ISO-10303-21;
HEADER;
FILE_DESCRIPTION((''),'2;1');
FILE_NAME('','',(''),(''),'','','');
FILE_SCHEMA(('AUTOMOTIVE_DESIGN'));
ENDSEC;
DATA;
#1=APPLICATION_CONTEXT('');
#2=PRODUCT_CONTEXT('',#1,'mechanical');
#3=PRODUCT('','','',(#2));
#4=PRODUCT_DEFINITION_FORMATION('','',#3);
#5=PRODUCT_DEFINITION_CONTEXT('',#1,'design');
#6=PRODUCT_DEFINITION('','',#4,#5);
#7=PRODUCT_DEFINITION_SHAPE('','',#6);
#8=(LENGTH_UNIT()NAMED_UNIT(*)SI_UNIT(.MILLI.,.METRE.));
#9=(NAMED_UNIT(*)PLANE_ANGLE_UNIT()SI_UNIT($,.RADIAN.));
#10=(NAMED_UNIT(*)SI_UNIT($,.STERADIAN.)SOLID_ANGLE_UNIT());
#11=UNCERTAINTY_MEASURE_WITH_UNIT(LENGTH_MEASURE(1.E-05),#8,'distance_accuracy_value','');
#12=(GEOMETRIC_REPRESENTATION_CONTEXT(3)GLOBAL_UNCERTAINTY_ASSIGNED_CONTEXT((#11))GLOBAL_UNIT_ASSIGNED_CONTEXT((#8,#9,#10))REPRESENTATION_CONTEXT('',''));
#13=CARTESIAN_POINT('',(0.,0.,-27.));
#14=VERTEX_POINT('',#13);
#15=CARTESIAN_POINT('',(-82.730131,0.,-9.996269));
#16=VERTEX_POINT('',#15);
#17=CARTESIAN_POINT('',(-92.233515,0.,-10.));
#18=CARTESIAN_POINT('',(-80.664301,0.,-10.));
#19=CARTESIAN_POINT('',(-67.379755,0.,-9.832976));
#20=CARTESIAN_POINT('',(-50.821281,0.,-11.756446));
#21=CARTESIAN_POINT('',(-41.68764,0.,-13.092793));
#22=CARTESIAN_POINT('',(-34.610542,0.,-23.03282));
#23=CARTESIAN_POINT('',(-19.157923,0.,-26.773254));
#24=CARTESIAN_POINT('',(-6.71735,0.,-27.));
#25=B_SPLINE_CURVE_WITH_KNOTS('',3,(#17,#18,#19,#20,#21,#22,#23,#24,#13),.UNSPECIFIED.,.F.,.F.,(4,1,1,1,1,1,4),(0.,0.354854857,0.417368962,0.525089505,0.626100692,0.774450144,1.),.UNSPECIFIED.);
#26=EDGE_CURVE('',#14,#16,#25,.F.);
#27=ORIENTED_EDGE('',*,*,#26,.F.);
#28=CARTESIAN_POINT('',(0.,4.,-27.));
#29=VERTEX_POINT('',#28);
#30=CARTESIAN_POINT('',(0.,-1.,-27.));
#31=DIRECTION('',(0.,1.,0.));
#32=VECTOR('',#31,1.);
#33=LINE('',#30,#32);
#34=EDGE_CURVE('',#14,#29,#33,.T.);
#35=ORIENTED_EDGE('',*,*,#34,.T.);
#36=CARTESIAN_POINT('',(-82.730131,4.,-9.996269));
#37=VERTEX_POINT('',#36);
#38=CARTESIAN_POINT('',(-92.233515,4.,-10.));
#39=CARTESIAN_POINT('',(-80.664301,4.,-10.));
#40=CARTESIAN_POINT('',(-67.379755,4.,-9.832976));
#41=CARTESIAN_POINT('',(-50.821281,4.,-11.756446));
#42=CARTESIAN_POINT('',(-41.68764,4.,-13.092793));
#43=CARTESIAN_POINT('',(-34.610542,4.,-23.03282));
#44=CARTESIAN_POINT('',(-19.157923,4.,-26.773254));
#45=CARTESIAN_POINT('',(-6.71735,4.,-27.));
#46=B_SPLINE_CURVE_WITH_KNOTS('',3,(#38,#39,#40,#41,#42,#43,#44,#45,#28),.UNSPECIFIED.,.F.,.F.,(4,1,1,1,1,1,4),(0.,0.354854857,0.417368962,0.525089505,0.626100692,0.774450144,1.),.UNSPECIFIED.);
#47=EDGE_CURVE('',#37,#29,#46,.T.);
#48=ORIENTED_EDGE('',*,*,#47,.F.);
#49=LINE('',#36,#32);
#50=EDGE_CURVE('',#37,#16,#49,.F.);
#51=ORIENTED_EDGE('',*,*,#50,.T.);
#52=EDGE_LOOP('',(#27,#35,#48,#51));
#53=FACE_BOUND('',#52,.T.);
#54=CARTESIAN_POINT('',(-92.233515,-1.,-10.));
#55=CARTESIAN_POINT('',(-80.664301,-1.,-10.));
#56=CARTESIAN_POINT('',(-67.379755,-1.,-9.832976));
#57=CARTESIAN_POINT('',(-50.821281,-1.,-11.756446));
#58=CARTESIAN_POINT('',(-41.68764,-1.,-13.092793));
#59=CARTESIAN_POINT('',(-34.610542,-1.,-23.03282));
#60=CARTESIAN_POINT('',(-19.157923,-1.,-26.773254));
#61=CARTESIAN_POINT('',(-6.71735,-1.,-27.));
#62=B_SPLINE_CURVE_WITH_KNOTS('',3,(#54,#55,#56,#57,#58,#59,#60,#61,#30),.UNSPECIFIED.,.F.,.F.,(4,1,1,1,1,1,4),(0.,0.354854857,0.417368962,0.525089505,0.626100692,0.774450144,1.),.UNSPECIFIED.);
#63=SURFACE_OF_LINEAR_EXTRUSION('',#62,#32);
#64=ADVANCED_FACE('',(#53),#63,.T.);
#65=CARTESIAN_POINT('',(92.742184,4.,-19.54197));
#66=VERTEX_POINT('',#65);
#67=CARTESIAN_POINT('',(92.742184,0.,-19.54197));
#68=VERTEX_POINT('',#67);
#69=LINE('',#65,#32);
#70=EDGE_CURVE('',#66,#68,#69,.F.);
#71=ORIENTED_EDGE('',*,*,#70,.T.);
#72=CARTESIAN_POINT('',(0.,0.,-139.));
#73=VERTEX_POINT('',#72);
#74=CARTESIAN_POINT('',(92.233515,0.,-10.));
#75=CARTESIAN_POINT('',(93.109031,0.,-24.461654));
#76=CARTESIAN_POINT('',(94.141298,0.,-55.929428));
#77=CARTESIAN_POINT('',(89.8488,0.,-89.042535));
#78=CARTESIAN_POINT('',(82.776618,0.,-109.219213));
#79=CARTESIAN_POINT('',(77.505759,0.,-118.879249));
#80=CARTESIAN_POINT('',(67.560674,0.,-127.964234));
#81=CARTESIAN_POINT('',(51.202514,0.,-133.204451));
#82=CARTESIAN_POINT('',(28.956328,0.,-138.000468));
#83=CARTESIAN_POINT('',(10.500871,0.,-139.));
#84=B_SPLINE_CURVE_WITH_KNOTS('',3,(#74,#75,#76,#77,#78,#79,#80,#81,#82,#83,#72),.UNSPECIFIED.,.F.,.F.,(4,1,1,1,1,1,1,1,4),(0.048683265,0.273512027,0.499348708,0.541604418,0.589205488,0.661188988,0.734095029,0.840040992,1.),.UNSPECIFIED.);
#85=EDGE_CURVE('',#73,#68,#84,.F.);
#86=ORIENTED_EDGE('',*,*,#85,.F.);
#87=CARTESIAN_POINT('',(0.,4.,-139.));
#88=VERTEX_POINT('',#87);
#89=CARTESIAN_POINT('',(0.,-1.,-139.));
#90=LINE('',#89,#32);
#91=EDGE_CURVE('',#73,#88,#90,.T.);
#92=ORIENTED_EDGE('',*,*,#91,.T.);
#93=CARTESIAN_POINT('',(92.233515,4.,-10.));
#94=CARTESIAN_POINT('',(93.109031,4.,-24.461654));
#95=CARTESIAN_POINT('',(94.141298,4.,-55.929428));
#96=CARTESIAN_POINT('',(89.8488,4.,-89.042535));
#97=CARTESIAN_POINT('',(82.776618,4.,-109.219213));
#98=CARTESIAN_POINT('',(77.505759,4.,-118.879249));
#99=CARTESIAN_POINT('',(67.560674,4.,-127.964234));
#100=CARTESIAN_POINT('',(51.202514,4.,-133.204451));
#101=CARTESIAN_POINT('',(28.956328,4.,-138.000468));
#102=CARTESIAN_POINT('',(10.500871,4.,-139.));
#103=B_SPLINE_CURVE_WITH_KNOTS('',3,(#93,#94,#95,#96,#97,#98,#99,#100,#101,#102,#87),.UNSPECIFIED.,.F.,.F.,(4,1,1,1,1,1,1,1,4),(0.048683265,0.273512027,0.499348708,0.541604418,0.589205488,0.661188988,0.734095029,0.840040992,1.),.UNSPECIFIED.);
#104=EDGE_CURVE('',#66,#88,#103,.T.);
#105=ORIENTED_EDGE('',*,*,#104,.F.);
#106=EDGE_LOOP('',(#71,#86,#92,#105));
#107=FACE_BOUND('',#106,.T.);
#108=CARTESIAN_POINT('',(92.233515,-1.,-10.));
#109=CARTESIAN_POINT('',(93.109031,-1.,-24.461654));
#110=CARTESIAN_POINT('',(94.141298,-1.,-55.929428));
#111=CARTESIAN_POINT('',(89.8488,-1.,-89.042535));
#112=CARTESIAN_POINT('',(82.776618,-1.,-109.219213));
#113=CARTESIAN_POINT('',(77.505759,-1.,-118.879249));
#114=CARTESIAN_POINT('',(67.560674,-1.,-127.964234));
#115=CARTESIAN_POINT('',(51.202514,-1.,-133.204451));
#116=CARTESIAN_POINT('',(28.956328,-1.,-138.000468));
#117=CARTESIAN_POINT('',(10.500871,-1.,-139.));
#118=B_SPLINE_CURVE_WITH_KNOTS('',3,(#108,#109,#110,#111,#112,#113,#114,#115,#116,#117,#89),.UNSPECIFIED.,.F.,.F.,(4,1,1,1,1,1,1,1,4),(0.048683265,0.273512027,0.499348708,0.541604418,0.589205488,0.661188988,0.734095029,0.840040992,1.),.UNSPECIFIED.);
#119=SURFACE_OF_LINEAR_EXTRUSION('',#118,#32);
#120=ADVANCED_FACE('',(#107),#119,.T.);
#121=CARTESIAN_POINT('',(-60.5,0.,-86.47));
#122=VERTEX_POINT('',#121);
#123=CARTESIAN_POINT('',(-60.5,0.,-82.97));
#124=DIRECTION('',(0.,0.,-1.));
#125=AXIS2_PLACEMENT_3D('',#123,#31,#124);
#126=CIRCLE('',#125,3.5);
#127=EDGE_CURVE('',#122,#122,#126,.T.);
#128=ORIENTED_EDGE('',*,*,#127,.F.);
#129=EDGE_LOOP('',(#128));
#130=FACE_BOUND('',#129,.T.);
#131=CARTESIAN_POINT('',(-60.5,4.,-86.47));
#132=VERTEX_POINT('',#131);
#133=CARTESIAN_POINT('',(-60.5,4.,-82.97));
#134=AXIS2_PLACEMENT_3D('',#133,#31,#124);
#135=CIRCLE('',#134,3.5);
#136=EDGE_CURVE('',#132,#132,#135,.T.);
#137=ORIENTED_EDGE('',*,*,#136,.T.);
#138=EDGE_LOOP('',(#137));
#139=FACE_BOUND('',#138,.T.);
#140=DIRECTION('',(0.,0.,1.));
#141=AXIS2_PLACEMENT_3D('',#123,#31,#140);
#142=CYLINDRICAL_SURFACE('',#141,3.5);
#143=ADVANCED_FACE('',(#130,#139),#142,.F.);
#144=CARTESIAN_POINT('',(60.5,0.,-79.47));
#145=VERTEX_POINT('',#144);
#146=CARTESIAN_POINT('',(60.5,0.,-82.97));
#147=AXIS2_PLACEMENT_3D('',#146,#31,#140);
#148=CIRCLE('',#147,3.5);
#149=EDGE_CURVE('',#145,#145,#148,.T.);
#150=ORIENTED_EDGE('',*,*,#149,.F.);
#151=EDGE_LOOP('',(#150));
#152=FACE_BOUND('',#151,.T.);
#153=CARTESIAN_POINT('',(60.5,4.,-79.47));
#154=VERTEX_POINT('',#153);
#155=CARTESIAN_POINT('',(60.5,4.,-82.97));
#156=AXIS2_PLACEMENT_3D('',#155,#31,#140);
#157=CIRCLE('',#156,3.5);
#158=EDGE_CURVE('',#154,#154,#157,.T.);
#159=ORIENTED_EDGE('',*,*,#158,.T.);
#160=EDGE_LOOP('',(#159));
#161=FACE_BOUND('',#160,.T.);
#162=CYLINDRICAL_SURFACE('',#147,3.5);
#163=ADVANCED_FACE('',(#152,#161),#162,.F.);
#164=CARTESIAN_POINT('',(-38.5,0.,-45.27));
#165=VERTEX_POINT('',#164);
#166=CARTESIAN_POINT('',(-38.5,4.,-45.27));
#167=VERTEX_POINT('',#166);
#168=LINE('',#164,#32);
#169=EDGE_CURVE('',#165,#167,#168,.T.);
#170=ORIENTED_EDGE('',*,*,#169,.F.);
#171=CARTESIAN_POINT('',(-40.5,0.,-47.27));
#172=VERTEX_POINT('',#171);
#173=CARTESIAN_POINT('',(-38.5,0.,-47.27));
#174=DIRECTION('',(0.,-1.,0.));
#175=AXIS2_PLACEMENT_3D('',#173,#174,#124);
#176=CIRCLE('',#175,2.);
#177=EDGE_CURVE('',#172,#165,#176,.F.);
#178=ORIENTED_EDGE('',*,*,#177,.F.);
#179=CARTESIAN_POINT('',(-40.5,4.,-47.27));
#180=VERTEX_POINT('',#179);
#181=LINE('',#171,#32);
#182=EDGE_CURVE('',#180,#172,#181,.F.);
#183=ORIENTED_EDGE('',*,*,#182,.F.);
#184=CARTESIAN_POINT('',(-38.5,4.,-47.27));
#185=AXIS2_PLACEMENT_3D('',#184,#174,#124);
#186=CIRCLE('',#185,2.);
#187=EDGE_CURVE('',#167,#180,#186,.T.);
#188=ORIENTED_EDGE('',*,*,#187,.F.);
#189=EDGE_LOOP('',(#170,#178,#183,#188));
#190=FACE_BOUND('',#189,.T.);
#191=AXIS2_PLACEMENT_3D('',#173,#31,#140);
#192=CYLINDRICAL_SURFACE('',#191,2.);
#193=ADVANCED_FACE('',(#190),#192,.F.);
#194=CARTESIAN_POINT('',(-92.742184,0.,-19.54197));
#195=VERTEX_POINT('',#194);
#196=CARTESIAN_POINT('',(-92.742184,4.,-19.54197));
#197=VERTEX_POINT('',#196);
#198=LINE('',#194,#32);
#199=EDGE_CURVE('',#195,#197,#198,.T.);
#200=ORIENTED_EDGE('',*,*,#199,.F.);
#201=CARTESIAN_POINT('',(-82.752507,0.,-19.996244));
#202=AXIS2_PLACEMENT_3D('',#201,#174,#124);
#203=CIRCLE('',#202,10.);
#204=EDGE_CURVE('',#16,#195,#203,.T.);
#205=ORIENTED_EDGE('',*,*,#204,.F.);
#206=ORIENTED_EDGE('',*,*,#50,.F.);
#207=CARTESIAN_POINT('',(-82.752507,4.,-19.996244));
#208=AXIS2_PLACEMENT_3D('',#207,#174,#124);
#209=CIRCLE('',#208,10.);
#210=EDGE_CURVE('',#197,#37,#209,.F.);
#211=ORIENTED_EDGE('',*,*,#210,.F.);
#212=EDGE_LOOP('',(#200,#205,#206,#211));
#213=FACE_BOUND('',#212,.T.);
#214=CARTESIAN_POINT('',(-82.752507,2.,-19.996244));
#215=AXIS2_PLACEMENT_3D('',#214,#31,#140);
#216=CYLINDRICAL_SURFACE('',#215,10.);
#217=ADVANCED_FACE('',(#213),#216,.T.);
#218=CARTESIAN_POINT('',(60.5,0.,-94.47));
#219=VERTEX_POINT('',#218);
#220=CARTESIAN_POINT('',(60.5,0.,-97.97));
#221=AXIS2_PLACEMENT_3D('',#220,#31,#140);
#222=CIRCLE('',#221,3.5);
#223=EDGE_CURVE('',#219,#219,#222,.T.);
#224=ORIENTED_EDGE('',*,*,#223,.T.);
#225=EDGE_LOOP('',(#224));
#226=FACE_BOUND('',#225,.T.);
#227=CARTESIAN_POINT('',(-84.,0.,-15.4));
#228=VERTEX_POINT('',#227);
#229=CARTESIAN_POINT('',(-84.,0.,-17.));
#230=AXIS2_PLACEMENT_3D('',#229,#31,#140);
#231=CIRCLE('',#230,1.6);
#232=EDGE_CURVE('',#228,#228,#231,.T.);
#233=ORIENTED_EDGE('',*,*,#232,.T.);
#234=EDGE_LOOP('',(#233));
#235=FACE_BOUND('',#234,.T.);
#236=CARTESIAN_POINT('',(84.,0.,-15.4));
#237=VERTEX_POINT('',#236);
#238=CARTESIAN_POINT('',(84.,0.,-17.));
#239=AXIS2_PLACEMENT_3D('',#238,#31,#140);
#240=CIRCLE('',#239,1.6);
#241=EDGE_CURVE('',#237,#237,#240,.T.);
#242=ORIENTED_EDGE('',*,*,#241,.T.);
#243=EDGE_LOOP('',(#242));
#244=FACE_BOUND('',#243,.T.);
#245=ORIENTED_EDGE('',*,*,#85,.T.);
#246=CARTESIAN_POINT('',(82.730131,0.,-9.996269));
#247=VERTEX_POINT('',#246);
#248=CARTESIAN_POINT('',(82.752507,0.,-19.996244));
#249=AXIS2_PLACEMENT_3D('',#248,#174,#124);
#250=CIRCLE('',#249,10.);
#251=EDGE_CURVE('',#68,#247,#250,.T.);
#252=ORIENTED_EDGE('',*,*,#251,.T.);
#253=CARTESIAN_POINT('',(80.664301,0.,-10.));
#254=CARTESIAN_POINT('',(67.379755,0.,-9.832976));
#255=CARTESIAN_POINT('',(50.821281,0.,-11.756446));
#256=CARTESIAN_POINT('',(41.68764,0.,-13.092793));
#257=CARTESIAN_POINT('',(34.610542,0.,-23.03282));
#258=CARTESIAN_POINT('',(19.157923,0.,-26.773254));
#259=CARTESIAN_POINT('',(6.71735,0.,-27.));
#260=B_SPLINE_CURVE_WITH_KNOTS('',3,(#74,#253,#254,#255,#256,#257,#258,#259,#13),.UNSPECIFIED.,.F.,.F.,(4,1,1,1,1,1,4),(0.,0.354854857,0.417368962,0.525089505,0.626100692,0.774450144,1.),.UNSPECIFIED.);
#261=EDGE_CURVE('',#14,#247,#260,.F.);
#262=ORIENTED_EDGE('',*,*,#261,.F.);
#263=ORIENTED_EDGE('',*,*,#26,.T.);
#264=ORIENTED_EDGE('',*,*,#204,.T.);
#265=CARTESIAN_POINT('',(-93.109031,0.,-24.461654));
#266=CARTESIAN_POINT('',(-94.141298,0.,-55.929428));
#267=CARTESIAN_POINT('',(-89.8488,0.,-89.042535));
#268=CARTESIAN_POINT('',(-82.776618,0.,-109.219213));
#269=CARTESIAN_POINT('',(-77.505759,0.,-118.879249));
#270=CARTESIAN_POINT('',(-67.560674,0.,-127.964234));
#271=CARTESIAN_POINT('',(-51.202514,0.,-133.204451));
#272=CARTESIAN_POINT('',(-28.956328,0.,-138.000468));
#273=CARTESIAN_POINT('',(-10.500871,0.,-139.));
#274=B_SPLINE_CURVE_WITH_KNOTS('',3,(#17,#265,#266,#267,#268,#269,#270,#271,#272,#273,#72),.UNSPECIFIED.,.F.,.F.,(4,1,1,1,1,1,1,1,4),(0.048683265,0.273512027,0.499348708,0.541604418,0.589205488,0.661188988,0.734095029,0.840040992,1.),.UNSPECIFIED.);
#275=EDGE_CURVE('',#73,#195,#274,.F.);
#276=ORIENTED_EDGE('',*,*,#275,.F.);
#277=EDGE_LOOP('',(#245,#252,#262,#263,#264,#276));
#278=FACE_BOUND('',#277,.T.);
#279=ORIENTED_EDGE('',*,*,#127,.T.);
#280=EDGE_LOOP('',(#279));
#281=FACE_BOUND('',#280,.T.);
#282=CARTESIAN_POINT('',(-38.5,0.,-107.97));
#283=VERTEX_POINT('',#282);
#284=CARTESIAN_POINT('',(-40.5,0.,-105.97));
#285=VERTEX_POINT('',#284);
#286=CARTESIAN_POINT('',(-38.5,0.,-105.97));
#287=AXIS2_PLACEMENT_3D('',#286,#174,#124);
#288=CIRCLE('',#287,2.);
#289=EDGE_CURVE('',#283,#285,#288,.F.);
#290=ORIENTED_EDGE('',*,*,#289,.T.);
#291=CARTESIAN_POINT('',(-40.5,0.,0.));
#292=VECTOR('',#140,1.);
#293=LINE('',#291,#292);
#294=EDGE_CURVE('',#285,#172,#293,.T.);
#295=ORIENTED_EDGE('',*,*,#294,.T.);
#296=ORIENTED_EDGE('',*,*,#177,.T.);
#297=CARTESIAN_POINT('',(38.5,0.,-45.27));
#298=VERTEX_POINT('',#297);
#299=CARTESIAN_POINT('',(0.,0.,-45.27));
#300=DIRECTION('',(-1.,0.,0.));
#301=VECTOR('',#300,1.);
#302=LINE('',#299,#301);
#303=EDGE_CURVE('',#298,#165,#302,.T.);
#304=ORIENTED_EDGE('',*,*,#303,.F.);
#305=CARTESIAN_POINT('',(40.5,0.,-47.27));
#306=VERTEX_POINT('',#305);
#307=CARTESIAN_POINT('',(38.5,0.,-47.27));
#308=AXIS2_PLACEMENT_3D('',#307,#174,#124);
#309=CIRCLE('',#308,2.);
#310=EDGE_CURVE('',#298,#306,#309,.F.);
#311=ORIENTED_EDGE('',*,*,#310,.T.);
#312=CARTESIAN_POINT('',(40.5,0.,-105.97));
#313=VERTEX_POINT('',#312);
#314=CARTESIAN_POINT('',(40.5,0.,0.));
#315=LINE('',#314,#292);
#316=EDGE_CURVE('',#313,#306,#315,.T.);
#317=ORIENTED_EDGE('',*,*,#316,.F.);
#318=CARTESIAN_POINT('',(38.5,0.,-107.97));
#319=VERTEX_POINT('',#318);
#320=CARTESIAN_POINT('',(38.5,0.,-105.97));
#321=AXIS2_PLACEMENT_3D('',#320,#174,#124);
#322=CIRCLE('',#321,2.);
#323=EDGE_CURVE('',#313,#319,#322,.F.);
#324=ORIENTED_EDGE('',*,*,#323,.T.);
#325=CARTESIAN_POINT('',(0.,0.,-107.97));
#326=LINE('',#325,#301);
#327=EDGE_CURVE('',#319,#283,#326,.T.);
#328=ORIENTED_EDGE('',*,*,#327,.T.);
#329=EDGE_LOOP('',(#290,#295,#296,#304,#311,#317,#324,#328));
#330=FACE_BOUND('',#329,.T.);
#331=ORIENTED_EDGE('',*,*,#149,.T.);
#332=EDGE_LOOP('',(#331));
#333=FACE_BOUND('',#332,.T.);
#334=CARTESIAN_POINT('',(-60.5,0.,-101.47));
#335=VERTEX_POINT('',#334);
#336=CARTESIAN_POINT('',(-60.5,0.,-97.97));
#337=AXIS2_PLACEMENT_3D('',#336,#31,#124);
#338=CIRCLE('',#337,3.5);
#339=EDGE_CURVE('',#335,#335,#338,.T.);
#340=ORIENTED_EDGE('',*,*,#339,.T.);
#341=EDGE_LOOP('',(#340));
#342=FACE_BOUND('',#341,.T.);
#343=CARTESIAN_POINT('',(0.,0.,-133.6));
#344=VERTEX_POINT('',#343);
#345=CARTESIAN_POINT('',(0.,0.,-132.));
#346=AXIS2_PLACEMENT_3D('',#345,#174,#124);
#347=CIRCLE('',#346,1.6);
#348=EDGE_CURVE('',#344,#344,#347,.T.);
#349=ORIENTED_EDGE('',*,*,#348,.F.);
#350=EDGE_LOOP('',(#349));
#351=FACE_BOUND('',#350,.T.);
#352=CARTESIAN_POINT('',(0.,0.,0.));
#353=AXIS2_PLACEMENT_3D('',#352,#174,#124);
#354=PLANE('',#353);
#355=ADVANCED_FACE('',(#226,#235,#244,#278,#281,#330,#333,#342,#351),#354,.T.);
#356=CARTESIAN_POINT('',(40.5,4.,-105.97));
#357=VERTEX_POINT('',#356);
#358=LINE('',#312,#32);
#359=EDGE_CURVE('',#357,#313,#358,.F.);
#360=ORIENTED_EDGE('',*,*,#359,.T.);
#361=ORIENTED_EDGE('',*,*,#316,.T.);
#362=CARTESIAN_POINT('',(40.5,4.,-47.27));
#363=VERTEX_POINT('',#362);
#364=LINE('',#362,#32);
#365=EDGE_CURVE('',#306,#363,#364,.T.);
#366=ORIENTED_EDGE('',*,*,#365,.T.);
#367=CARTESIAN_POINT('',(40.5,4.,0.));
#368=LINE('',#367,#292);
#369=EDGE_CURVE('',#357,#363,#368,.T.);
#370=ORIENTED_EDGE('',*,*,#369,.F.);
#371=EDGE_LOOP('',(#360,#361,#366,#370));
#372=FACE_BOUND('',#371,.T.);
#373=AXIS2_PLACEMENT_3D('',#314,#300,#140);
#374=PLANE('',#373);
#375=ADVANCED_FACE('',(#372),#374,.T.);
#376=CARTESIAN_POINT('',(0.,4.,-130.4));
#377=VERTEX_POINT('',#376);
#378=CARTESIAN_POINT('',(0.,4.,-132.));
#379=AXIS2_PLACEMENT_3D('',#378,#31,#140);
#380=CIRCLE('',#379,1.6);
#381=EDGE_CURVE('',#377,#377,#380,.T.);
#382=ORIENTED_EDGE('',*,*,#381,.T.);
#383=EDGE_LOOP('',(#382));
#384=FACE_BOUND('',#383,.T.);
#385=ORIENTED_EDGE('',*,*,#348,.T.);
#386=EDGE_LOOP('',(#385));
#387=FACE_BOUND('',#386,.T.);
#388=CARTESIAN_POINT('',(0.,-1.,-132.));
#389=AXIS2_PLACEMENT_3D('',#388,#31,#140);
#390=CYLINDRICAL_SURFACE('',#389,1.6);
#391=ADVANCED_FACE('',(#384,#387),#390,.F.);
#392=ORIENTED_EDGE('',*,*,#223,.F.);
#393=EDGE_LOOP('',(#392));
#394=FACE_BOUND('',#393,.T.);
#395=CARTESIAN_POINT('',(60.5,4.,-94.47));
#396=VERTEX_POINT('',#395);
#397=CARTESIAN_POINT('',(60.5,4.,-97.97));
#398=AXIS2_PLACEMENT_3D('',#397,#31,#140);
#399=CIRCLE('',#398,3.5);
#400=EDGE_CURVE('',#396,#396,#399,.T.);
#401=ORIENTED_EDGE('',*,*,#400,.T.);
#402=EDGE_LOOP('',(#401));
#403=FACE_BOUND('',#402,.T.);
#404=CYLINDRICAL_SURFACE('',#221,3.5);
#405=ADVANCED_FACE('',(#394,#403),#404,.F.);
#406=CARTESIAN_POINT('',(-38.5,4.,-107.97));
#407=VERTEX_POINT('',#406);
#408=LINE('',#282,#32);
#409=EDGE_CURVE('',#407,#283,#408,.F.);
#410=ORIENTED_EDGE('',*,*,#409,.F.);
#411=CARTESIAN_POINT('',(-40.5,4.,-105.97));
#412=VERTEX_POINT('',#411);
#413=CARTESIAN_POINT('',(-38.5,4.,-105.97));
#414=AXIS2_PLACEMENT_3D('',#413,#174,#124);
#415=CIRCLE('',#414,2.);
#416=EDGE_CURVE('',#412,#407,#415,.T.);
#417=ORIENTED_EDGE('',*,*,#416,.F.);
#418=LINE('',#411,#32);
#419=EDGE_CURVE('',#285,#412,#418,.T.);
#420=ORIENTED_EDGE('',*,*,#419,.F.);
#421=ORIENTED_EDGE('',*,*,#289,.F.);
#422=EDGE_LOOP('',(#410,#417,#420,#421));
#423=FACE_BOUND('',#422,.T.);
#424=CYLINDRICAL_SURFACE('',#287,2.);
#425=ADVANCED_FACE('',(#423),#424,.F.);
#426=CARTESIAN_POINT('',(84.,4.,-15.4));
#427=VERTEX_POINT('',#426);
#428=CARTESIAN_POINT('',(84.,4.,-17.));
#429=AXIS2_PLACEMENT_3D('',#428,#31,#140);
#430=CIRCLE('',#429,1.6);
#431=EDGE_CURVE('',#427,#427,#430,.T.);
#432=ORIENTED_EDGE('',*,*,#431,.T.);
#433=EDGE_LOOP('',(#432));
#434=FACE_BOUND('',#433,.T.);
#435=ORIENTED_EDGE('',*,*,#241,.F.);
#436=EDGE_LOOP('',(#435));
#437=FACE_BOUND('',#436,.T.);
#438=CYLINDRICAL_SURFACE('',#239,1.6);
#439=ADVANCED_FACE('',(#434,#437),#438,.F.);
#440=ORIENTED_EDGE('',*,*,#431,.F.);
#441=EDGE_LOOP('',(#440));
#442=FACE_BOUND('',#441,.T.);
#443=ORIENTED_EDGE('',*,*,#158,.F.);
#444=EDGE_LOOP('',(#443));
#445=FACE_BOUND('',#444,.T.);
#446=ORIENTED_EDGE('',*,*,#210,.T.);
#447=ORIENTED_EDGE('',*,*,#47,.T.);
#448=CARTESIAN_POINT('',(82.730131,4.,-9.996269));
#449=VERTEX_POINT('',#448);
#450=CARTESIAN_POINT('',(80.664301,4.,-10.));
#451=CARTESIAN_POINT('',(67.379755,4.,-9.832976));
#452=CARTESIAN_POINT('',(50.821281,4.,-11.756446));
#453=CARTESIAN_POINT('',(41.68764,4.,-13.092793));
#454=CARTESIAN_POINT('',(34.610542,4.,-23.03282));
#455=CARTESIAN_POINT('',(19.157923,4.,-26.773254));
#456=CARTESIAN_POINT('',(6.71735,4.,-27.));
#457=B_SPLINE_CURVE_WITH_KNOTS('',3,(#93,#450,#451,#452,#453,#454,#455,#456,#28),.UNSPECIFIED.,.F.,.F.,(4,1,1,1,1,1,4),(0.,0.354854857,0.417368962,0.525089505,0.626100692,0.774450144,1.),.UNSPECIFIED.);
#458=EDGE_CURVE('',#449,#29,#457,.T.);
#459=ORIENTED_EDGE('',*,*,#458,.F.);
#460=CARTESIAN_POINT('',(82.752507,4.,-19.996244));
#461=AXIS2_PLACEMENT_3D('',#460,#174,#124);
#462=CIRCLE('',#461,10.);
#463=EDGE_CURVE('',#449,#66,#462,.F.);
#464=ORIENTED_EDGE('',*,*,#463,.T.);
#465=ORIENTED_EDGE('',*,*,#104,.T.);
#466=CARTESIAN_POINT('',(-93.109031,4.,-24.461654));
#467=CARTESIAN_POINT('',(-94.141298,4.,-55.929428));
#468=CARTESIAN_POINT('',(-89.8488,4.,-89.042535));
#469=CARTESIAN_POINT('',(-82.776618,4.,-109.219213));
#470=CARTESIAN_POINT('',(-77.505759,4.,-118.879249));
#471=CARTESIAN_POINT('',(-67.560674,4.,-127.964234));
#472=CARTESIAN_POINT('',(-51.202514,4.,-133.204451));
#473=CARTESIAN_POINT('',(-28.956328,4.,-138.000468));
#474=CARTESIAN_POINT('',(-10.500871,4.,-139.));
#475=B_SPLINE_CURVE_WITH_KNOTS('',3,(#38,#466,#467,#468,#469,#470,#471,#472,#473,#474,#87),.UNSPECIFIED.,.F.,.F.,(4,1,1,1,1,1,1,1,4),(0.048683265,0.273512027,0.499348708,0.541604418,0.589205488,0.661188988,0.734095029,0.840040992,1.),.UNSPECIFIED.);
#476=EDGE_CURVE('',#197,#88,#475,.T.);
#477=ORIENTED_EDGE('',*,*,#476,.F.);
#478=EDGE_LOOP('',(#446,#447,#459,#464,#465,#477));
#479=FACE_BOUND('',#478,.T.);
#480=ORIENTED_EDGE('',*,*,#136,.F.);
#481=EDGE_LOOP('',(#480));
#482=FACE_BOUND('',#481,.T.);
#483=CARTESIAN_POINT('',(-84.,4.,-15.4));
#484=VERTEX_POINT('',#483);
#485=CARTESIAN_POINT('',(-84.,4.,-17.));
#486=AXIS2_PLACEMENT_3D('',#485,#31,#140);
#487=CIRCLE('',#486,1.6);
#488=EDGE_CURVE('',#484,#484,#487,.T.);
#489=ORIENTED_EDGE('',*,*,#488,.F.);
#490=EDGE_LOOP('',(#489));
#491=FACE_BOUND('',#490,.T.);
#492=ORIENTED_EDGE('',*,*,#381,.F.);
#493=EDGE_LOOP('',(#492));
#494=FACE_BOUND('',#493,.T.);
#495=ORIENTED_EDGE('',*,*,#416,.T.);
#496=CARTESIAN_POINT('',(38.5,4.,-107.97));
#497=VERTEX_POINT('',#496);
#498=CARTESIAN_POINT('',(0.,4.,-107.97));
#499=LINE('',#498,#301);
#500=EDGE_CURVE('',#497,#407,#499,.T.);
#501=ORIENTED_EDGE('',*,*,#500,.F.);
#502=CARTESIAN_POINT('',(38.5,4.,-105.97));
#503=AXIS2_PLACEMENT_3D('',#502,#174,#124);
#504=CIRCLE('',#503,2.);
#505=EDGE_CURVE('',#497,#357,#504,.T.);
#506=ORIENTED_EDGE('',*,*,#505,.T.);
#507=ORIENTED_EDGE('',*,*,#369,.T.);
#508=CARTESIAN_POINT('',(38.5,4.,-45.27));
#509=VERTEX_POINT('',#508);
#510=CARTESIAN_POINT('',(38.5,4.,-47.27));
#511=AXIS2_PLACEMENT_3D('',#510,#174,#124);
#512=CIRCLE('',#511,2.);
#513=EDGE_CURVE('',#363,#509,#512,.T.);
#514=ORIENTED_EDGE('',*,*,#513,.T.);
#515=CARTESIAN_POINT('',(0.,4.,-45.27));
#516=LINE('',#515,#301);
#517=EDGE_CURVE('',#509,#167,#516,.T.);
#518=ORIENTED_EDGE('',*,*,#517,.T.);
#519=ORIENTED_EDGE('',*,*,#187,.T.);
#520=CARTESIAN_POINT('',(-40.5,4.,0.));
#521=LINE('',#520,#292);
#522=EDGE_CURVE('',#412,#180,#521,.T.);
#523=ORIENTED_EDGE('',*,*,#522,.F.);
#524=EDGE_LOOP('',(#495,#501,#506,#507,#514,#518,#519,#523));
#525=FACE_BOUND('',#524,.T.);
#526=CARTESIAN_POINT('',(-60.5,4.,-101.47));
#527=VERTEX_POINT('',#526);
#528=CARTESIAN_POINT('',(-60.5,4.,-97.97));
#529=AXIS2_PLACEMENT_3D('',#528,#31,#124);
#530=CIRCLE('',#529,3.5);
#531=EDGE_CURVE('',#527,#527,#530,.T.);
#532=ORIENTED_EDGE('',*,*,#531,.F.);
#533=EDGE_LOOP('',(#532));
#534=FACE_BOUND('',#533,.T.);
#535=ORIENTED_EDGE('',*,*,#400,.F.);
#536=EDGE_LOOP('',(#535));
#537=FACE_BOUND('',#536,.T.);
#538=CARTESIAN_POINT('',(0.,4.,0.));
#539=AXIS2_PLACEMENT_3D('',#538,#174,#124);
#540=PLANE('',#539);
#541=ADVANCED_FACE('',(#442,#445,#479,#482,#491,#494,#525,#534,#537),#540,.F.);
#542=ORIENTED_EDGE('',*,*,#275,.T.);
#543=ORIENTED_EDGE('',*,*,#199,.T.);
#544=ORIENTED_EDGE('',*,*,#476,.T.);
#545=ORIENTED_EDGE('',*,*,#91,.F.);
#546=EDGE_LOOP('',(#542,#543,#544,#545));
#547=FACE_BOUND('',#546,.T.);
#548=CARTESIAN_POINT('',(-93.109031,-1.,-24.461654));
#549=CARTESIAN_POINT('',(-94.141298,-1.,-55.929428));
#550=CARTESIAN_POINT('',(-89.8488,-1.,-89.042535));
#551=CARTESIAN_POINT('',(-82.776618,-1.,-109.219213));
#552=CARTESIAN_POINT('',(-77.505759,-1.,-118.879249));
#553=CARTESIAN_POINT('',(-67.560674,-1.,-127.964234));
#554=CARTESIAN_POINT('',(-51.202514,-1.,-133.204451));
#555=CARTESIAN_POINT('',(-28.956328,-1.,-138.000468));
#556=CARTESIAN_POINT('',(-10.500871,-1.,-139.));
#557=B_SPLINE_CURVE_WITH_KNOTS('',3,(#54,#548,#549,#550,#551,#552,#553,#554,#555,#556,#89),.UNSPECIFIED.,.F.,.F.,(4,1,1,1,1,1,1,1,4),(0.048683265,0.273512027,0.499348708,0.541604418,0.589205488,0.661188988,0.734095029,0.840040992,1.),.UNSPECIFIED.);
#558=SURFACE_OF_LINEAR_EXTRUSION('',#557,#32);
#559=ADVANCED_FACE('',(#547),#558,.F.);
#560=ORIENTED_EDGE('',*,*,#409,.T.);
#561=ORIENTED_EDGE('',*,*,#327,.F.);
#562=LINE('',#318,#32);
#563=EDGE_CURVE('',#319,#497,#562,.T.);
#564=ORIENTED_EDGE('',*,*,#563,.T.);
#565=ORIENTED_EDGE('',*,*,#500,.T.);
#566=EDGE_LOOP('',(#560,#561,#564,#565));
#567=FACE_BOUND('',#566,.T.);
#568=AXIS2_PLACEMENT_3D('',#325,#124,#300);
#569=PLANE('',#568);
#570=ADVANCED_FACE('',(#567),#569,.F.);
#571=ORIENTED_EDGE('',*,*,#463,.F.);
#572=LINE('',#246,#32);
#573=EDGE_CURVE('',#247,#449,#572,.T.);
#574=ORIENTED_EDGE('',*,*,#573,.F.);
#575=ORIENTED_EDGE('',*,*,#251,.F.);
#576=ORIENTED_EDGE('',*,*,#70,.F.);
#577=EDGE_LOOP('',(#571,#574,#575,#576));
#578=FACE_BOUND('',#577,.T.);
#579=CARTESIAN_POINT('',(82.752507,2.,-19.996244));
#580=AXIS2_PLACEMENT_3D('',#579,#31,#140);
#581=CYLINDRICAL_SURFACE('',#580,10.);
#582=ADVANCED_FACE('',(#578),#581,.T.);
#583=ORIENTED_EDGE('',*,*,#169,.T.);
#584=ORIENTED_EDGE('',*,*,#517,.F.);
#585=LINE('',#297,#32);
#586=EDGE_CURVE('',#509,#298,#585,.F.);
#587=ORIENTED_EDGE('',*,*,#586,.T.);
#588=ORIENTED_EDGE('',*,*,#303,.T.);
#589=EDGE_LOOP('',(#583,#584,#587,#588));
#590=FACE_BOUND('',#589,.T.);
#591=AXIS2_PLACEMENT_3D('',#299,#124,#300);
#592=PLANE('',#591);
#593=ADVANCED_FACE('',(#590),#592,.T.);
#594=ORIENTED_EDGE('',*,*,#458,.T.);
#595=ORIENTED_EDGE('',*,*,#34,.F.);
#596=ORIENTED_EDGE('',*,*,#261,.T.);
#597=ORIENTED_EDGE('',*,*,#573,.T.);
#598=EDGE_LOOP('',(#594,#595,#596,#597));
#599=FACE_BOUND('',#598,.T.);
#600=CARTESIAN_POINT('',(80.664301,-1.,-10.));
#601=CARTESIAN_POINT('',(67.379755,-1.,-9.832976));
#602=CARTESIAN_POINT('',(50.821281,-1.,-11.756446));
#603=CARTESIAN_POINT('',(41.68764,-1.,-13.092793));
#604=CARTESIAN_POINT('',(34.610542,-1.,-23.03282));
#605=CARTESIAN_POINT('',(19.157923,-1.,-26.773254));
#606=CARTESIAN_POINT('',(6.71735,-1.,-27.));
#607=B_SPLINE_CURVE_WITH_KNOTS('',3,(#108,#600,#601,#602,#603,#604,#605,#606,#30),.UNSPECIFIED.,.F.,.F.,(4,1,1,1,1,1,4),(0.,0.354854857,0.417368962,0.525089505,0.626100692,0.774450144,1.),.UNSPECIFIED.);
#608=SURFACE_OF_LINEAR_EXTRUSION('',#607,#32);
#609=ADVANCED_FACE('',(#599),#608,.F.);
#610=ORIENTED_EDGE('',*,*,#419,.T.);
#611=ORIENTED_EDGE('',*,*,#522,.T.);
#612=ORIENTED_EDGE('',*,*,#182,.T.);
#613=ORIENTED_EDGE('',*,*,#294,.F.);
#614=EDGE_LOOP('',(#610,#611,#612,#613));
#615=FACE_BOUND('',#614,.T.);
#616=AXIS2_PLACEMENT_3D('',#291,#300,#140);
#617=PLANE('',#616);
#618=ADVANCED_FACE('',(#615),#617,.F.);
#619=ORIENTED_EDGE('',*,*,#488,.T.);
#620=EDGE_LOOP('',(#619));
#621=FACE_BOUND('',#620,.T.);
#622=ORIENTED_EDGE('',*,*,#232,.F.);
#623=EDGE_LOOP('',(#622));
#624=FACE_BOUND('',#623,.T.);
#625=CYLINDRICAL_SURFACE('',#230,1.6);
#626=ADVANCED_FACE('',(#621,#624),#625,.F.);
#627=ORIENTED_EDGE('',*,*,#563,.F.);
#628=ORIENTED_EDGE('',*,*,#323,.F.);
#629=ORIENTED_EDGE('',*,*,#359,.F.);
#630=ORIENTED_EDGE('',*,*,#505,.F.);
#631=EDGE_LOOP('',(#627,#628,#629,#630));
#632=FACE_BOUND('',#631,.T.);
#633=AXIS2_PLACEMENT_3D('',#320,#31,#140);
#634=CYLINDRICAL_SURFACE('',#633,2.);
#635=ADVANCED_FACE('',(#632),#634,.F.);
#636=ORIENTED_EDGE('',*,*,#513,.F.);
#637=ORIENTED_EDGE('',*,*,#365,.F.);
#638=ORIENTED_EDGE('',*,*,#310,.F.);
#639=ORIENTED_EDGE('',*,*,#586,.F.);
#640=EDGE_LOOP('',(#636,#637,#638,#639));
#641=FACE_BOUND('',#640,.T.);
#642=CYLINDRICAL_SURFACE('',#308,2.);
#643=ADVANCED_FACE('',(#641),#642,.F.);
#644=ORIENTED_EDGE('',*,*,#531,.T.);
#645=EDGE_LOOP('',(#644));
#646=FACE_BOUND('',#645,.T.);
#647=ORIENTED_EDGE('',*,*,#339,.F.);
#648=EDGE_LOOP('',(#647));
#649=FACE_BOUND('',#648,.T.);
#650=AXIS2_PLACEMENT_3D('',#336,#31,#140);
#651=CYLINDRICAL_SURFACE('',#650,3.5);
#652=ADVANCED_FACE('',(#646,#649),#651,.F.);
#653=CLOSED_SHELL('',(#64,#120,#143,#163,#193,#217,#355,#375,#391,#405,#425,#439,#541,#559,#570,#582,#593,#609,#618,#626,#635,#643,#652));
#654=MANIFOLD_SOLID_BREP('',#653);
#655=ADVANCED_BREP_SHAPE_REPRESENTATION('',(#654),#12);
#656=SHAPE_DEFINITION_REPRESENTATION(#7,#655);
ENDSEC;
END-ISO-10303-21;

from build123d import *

# Parameters (mm, degrees)
SKETCH1_W           = 240
SKETCH1_H           = 310
BOSS_EXTRUDE1_DEPTH = 4
CUT_EXTRUDE1_REACH  = 198.064
SKETCH2_R           = 1.75
CUT_EXTRUDE2_REACH  = 198.064
SKETCH3_R           = 1.75
FILLET3_R           = 3
SKETCH4_R           = 1.6
CUT_EXTRUDE3_DEPTH  = 5
FILLET4_R           = 10
SKETCH5_R           = 1.6
CUT_EXTRUDE4_DEPTH  = 168.426582877
SKETCH6_W           = 37.6
SKETCH6_H           = 62.7
SKETCH6_W_2         = 5.8
CUT_EXTRUDE5_DEPTH  = 168.426582877
SKETCH7_R           = 3.5
CUT_EXTRUDE6_DEPTH  = 168.426582877
FILLET5_R           = 2


with BuildPart() as part:
    # Sketch1 → Boss-Extrude1 (new body)
    with BuildSketch(Plane(origin=(0, 0, 0), x_dir=(1, 0, 0), z_dir=(0, 1, 0))):
        Rectangle(SKETCH1_W, SKETCH1_H)
    extrude(amount=BOSS_EXTRUDE1_DEPTH)

    # Sketch2 → Cut-Extrude1 (cut, up to next)
    with BuildSketch(Plane(origin=(0, 4, 0), x_dir=(1, 0, 0), z_dir=(0, 1, 0)), mode=Mode.PRIVATE) as cut_extrude1_sk1:
        with BuildLine():
            Line((-120, 155), (-120, 0))
            add(Edge.make_bspline(
                [(0, 155), (-30.572222193, 155), (-80.343316982, 153.733320995), (-119.221157946, 117.654395612), (-120, 45.41001223), (-120, 0)],
                knots=[0, 0, 0, 0, 0.458017491, 0.558017491, 1, 1, 1, 1], degree=3))
            Line((0, 155), (-120, 155))
        make_face()
    cut_extrude1_tool1 = extrude(cut_extrude1_sk1.sketch, amount=-CUT_EXTRUDE1_REACH, mode=Mode.PRIVATE) & part.part
    # Sketch2 → Cut-Extrude1 (cut, up to next)
    with BuildSketch(Plane(origin=(0, 4, 0), x_dir=(1, 0, 0), z_dir=(0, 1, 0)), mode=Mode.PRIVATE) as cut_extrude1_sk2:
        with BuildLine():
            add(Edge.make_bspline(
                [(0, 155), (30.572222193, 155), (80.343316982, 153.733320995), (119.221157946, 117.654395612), (120, 45.41001223), (120, 0)],
                knots=[0, 0, 0, 0, 0.458017491, 0.558017491, 1, 1, 1, 1], degree=3))
            Line((120, 0), (120, 155))
            Line((120, 155), (0, 155))
        make_face()
    cut_extrude1_tool2 = extrude(cut_extrude1_sk2.sketch, amount=-CUT_EXTRUDE1_REACH, mode=Mode.PRIVATE) & part.part
    # Sketch2 → Cut-Extrude1 (cut, up to next)
    with BuildSketch(Plane(origin=(0, 4, 0), x_dir=(1, 0, 0), z_dir=(0, 1, 0)), mode=Mode.PRIVATE) as cut_extrude1_sk3:
        with BuildLine():
            Line((120, -155), (120, 0))
            add(Edge.make_bspline(
                [(0, -155), (30.572222193, -155), (80.343316982, -153.733320995), (119.221157946, -117.654395612), (120, -45.41001223), (120, 0)],
                knots=[0, 0, 0, 0, 0.458017491, 0.558017491, 1, 1, 1, 1], degree=3))
            Line((0, -155), (120, -155))
        make_face()
    cut_extrude1_tool3 = extrude(cut_extrude1_sk3.sketch, amount=-CUT_EXTRUDE1_REACH, mode=Mode.PRIVATE) & part.part
    # Sketch2 → Cut-Extrude1 (cut, up to next)
    with BuildSketch(Plane(origin=(0, 4, 0), x_dir=(1, 0, 0), z_dir=(0, 1, 0)), mode=Mode.PRIVATE) as cut_extrude1_sk4:
        with BuildLine():
            add(Edge.make_bspline(
                [(0, -155), (-30.572222193, -155), (-80.343316982, -153.733320995), (-119.221157946, -117.654395612), (-120, -45.41001223), (-120, 0)],
                knots=[0, 0, 0, 0, 0.458017491, 0.558017491, 1, 1, 1, 1], degree=3))
            Line((-120, 0), (-120, -155))
            Line((-120, -155), (0, -155))
        make_face()
    cut_extrude1_tool4 = extrude(cut_extrude1_sk4.sketch, amount=-CUT_EXTRUDE1_REACH, mode=Mode.PRIVATE) & part.part
    # Sketch2 → Cut-Extrude1 (cut, up to next)
    with BuildSketch(Plane(origin=(0, 4, 0), x_dir=(1, 0, 0), z_dir=(0, 1, 0)), mode=Mode.PRIVATE) as cut_extrude1_sk5:
        with Locations(Location((-88.957037006, 132.338171163, 0), (0, 0, 270))):
            Circle(SKETCH2_R)
    cut_extrude1_tool5 = extrude(cut_extrude1_sk5.sketch, amount=-CUT_EXTRUDE1_REACH, mode=Mode.PRIVATE) & part.part
    # Sketch2 → Cut-Extrude1 (cut, up to next)
    with BuildSketch(Plane(origin=(0, 4, 0), x_dir=(1, 0, 0), z_dir=(0, 1, 0)), mode=Mode.PRIVATE) as cut_extrude1_sk6:
        with Locations(Location((0, 146, 0), (0, 0, 270))):
            Circle(SKETCH2_R)
    cut_extrude1_tool6 = extrude(cut_extrude1_sk6.sketch, amount=-CUT_EXTRUDE1_REACH, mode=Mode.PRIVATE) & part.part
    # Sketch2 → Cut-Extrude1 (cut, up to next)
    with BuildSketch(Plane(origin=(0, 4, 0), x_dir=(1, 0, 0), z_dir=(0, 1, 0)), mode=Mode.PRIVATE) as cut_extrude1_sk7:
        with Locations(Location((88.957037006, 132.338171163, 0), (0, 0, 270))):
            Circle(SKETCH2_R)
    cut_extrude1_tool7 = extrude(cut_extrude1_sk7.sketch, amount=-CUT_EXTRUDE1_REACH, mode=Mode.PRIVATE) & part.part
    # Sketch2 → Cut-Extrude1 (cut, up to next)
    with BuildSketch(Plane(origin=(0, 4, 0), x_dir=(1, 0, 0), z_dir=(0, 1, 0)), mode=Mode.PRIVATE) as cut_extrude1_sk8:
        with Locations(Location((-110.418476952, 44.934472183, 0), (0, 0, 270))):
            Circle(SKETCH2_R)
    cut_extrude1_tool8 = extrude(cut_extrude1_sk8.sketch, amount=-CUT_EXTRUDE1_REACH, mode=Mode.PRIVATE) & part.part
    # Sketch2 → Cut-Extrude1 (cut, up to next)
    with BuildSketch(Plane(origin=(0, 4, 0), x_dir=(1, 0, 0), z_dir=(0, 1, 0)), mode=Mode.PRIVATE) as cut_extrude1_sk9:
        with Locations(Location((-49, -30, 0), (0, 0, 270))):
            Circle(SKETCH2_R)
    cut_extrude1_tool9 = extrude(cut_extrude1_sk9.sketch, amount=-CUT_EXTRUDE1_REACH, mode=Mode.PRIVATE) & part.part
    # Sketch2 → Cut-Extrude1 (cut, up to next)
    with BuildSketch(Plane(origin=(0, 4, 0), x_dir=(1, 0, 0), z_dir=(0, 1, 0)), mode=Mode.PRIVATE) as cut_extrude1_sk10:
        with Locations(Location((49, -30, 0), (0, 0, 270))):
            Circle(SKETCH2_R)
    cut_extrude1_tool10 = extrude(cut_extrude1_sk10.sketch, amount=-CUT_EXTRUDE1_REACH, mode=Mode.PRIVATE) & part.part
    # Sketch2 → Cut-Extrude1 (cut, up to next)
    with BuildSketch(Plane(origin=(0, 4, 0), x_dir=(1, 0, 0), z_dir=(0, 1, 0)), mode=Mode.PRIVATE) as cut_extrude1_sk11:
        with Locations(Location((-88.957037006, -132.338171163, 0), (0, 0, 270))):
            Circle(SKETCH2_R)
    cut_extrude1_tool11 = extrude(cut_extrude1_sk11.sketch, amount=-CUT_EXTRUDE1_REACH, mode=Mode.PRIVATE) & part.part
    # Sketch2 → Cut-Extrude1 (cut, up to next)
    with BuildSketch(Plane(origin=(0, 4, 0), x_dir=(1, 0, 0), z_dir=(0, 1, 0)), mode=Mode.PRIVATE) as cut_extrude1_sk12:
        with Locations(Location((0, -146, 0), (0, 0, 270))):
            Circle(SKETCH2_R)
    cut_extrude1_tool12 = extrude(cut_extrude1_sk12.sketch, amount=-CUT_EXTRUDE1_REACH, mode=Mode.PRIVATE) & part.part
    # Sketch2 → Cut-Extrude1 (cut, up to next)
    with BuildSketch(Plane(origin=(0, 4, 0), x_dir=(1, 0, 0), z_dir=(0, 1, 0)), mode=Mode.PRIVATE) as cut_extrude1_sk13:
        with Locations(Location((88.957037006, -132.338171163, 0), (0, 0, 270))):
            Circle(SKETCH2_R)
    cut_extrude1_tool13 = extrude(cut_extrude1_sk13.sketch, amount=-CUT_EXTRUDE1_REACH, mode=Mode.PRIVATE) & part.part
    # Sketch2 → Cut-Extrude1 (cut, up to next)
    with BuildSketch(Plane(origin=(0, 4, 0), x_dir=(1, 0, 0), z_dir=(0, 1, 0)), mode=Mode.PRIVATE) as cut_extrude1_sk14:
        with Locations(Location((110.418476952, 44.934472183, 0), (0, 0, 270))):
            Circle(SKETCH2_R)
    cut_extrude1_tool14 = extrude(cut_extrude1_sk14.sketch, amount=-CUT_EXTRUDE1_REACH, mode=Mode.PRIVATE) & part.part
    add(cut_extrude1_tool1.solids().sort_by_distance((-102.173006, 4, -133.115769))[0], mode=Mode.SUBTRACT)
    add(cut_extrude1_tool2.solids().sort_by_distance((102.087926, 4, -133.133004))[0], mode=Mode.SUBTRACT)
    add(cut_extrude1_tool3.solids().sort_by_distance((102.087926, 4, 133.133004))[0], mode=Mode.SUBTRACT)
    add(cut_extrude1_tool4.solids().sort_by_distance((-102.173006, 4, 133.115769))[0], mode=Mode.SUBTRACT)
    add(cut_extrude1_tool5.solids().sort_by_distance((-88.957037, 4, -132.338171))[0], mode=Mode.SUBTRACT)
    add(cut_extrude1_tool6.solids().sort_by_distance((0, 4, -146))[0], mode=Mode.SUBTRACT)
    add(cut_extrude1_tool7.solids().sort_by_distance((88.957037, 4, -132.338171))[0], mode=Mode.SUBTRACT)
    add(cut_extrude1_tool8.solids().sort_by_distance((-110.418477, 4, -44.934472))[0], mode=Mode.SUBTRACT)
    add(cut_extrude1_tool9.solids().sort_by_distance((-49, 4, 30))[0], mode=Mode.SUBTRACT)
    add(cut_extrude1_tool10.solids().sort_by_distance((49, 4, 30))[0], mode=Mode.SUBTRACT)
    add(cut_extrude1_tool11.solids().sort_by_distance((-88.957037, 4, 132.338171))[0], mode=Mode.SUBTRACT)
    add(cut_extrude1_tool12.solids().sort_by_distance((0, 4, 146))[0], mode=Mode.SUBTRACT)
    add(cut_extrude1_tool13.solids().sort_by_distance((88.957037, 4, 132.338171))[0], mode=Mode.SUBTRACT)
    add(cut_extrude1_tool14.solids().sort_by_distance((110.418477, 4, -44.934472))[0], mode=Mode.SUBTRACT)

    # Sketch3 → Cut-Extrude2 (cut, up to next)
    with BuildSketch(Plane(origin=(0, 4, 0), x_dir=(1, 0, 0), z_dir=(0, 1, 0)), mode=Mode.PRIVATE) as cut_extrude2_sk1:
        with BuildLine():
            Line((-120, 0), (120, 0))
            add(Edge.make_bspline(
                [(0, -155), (30.572222193, -155), (80.343316982, -153.733320995), (119.221157946, -117.654395612), (120, -45.41001223), (120, 0)],
                knots=[0, 0, 0, 0, 0.458017491, 0.558017491, 1, 1, 1, 1], degree=3))
            add(Edge.make_bspline(
                [(-120, 0), (-120, -45.41001223), (-119.221157946, -117.654395612), (-80.343316982, -153.733320995), (-30.572222193, -155), (0, -155)],
                knots=[0, 0, 0, 0, 0.441982509, 0.541982509, 1, 1, 1, 1], degree=3))
        make_face()
        with Locations((88.957037006, -132.338171163)):
            Circle(SKETCH3_R, mode=Mode.SUBTRACT)
        with Locations((49, -30)):
            Circle(SKETCH3_R, mode=Mode.SUBTRACT)
        with Locations((-88.957037006, -132.338171163)):
            Circle(SKETCH3_R, mode=Mode.SUBTRACT)
        with Locations((-49, -30)):
            Circle(SKETCH3_R, mode=Mode.SUBTRACT)
        with Locations((0, -146)):
            Circle(SKETCH3_R, mode=Mode.SUBTRACT)
    cut_extrude2_tool1 = extrude(cut_extrude2_sk1.sketch, amount=-CUT_EXTRUDE2_REACH, mode=Mode.PRIVATE) & part.part
    # Sketch3 → Cut-Extrude2 (cut, up to next)
    with BuildSketch(Plane(origin=(0, 4, 0), x_dir=(1, 0, 0), z_dir=(0, 1, 0)), mode=Mode.PRIVATE) as cut_extrude2_sk2:
        with BuildLine():
            add(Edge.make_bspline(
                [(-119.996868981, 5), (-119.999161826, 3.317063079), (-120, 1.649620662), (-120, 0)],
                knots=[0.983943993, 0.983943993, 0.983943993, 0.983943993, 1, 1, 1, 1], degree=3))
            Line((-120, 0), (120, 0))
            add(Edge.make_bspline(
                [(120, 0), (120, 1.649620662), (119.999161826, 3.317063079), (119.996868981, 5)],
                knots=[0, 0, 0, 0, 0.016056007, 0.016056007, 0.016056007, 0.016056007], degree=3))
            Line((119.996868981, 5), (-119.996868981, 5))
        make_face()
    cut_extrude2_tool2 = extrude(cut_extrude2_sk2.sketch, amount=-CUT_EXTRUDE2_REACH, mode=Mode.PRIVATE) & part.part
    add(cut_extrude2_tool1.solids().sort_by_distance((0, 4, 73.058016))[0], mode=Mode.SUBTRACT)
    add(cut_extrude2_tool2.solids().sort_by_distance((0, 4, -2.499989))[0], mode=Mode.SUBTRACT)

    # Fillet3
    fillet3_edges = [part.edges().sort_by_distance(p)[0] for p in [
        (119.996868981, 2, -5),
        (-119.996868981, 2, -5),
    ]]
    fillet(fillet3_edges, radius=FILLET3_R)

    # Sketch4 → Cut-Extrude3 (cut)
    # profile 1 of 2: a face of its own
    with BuildSketch(Plane(origin=(0, 4, 0), x_dir=(1, 0, 0), z_dir=(0, 1, 0))):
        with BuildLine():
            ThreePointArc((-119.991132673, 8.007468224), (-119.115101087, 5.881321718), (-116.991141968, 5))
            Line((-116.991141968, 5), (116.991141968, 5))
            ThreePointArc((116.991141968, 5), (119.115101087, 5.881321718), (119.991132673, 8.007468224))
            add(Edge.make_bspline(
                [(0, 155), (30.572222193, 155), (80.343316982, 153.733320995), (118.227056859, 118.576928811), (119.881344424, 52.109482017), (119.991132673, 8.007468224)],
                knots=[0, 0, 0, 0, 0.458017491, 0.558017491, 0.974430136, 0.974430136, 0.974430136, 0.974430136], degree=3))
            add(Edge.make_bspline(
                [(0, 155), (-30.572222193, 155), (-80.343316982, 153.733320995), (-118.227056859, 118.576928811), (-119.881344424, 52.109482017), (-119.991132673, 8.007468224)],
                knots=[0, 0, 0, 0, 0.458017491, 0.558017491, 0.974430136, 0.974430136, 0.974430136, 0.974430136], degree=3))
        make_face()
        with BuildLine():
            add(Edge.make_bspline(
                [(-92.233514507, 10), (-80.664301387, 10), (-67.379754657, 9.832976348), (-50.821281342, 11.756445914), (-41.687640008, 13.092793482), (-34.61054209, 23.0328201), (-19.157922754, 26.773253881), (-6.717349602, 27), (0, 27)],
                knots=[0, 0, 0, 0, 0.354854857, 0.417368962, 0.525089505, 0.626100692, 0.774450144, 1, 1, 1, 1], degree=3))
            add(Edge.make_bspline(
                [(-92.233514507, 10), (-93.109031306, 24.461653993), (-94.141297679, 55.929427893), (-89.848799736, 89.042535108), (-82.77661836, 109.219212766), (-77.505758875, 118.879248593), (-67.56067431, 127.964233668), (-51.20251433, 133.204450958), (-28.956327731, 138.000468293), (-10.500871466, 139), (0, 139)],
                knots=[0.048683265, 0.048683265, 0.048683265, 0.048683265, 0.273512027, 0.499348708, 0.541604418, 0.589205488, 0.661188988, 0.734095029, 0.840040992, 1, 1, 1, 1], degree=3))
            add(Edge.make_bspline(
                [(92.233514507, 10), (93.109031306, 24.461653993), (94.141297679, 55.929427893), (89.848799736, 89.042535108), (82.77661836, 109.219212766), (77.505758875, 118.879248593), (67.56067431, 127.964233668), (51.20251433, 133.204450958), (28.956327731, 138.000468293), (10.500871466, 139), (0, 139)],
                knots=[0.048683265, 0.048683265, 0.048683265, 0.048683265, 0.273512027, 0.499348708, 0.541604418, 0.589205488, 0.661188988, 0.734095029, 0.840040992, 1, 1, 1, 1], degree=3))
            add(Edge.make_bspline(
                [(92.233514507, 10), (80.664301387, 10), (67.379754657, 9.832976348), (50.821281342, 11.756445914), (41.687640008, 13.092793482), (34.61054209, 23.0328201), (19.157922754, 26.773253881), (6.717349602, 27), (0, 27)],
                knots=[0, 0, 0, 0, 0.354854857, 0.417368962, 0.525089505, 0.626100692, 0.774450144, 1, 1, 1, 1], degree=3))
        make_face(mode=Mode.SUBTRACT)
    # profile 2 of 2: a face of its own
    with BuildSketch(Plane(origin=(0, 4, 0), x_dir=(1, 0, 0), z_dir=(0, 1, 0))):
        with Locations(Location((0, 132, 0), (0, 0, 270))):
            Circle(SKETCH4_R)
    extrude(amount=-CUT_EXTRUDE3_DEPTH, mode=Mode.SUBTRACT)

    # Fillet4
    fillet4_edges = [part.edges().sort_by_distance(p)[0] for p in [
        (92.233514507, 2, -10),
        (-92.233514507, 2, -10),
    ]]
    fillet(fillet4_edges, radius=FILLET4_R)

    # Sketch5 → Cut-Extrude4 (cut, through all)
    with BuildSketch(Plane(origin=(0, 4, 0), x_dir=(1, 0, 0), z_dir=(0, 1, 0))):
        with Locations(Location((-84, 17, 0), (0, 0, 270))):
            Circle(SKETCH5_R)
        with Locations(Location((84, 17, 0), (0, 0, 270))):
            Circle(SKETCH5_R)
    extrude(amount=-CUT_EXTRUDE4_DEPTH, mode=Mode.SUBTRACT)

    # Sketch6 → Cut-Extrude5 (cut, through all)
    with BuildSketch(Plane(origin=(0, 4, 0), x_dir=(1, 0, 0), z_dir=(0, 1, 0))):
        with Locations((-21.7, 76.62)):
            Rectangle(SKETCH6_W, SKETCH6_H)
        with Locations((0, 76.62)):
            Rectangle(SKETCH6_W_2, SKETCH6_H)
        with Locations((21.7, 76.62)):
            Rectangle(SKETCH6_W, SKETCH6_H)
    extrude(amount=-CUT_EXTRUDE5_DEPTH, mode=Mode.SUBTRACT)

    # Sketch7 → Cut-Extrude6 (cut, through all)
    with BuildSketch(Plane(origin=(0, 4, 0), x_dir=(1, 0, 0), z_dir=(0, 1, 0))):
        with Locations(Location((60.5, 97.97, 0), (0, 0, 270))):
            Circle(SKETCH7_R)
        with Locations(Location((-60.5, 97.97, 0), (0, 0, 90))):
            Circle(SKETCH7_R)
        with Locations(Location((60.5, 82.97, 0), (0, 0, 270))):
            Circle(SKETCH7_R)
        with Locations(Location((-60.5, 82.97, 0), (0, 0, 90))):
            Circle(SKETCH7_R)
    extrude(amount=-CUT_EXTRUDE6_DEPTH, mode=Mode.SUBTRACT)

    # Fillet5
    fillet5_edges = [part.edges().sort_by_distance(p)[0] for p in [
        (40.5, 2, -45.27),
        (-40.5, 2, -45.27),
        (-40.5, 2, -107.97),
        (40.5, 2, -107.97),
    ]]
    fillet(fillet5_edges, radius=FILLET5_R)


solid = part.part
